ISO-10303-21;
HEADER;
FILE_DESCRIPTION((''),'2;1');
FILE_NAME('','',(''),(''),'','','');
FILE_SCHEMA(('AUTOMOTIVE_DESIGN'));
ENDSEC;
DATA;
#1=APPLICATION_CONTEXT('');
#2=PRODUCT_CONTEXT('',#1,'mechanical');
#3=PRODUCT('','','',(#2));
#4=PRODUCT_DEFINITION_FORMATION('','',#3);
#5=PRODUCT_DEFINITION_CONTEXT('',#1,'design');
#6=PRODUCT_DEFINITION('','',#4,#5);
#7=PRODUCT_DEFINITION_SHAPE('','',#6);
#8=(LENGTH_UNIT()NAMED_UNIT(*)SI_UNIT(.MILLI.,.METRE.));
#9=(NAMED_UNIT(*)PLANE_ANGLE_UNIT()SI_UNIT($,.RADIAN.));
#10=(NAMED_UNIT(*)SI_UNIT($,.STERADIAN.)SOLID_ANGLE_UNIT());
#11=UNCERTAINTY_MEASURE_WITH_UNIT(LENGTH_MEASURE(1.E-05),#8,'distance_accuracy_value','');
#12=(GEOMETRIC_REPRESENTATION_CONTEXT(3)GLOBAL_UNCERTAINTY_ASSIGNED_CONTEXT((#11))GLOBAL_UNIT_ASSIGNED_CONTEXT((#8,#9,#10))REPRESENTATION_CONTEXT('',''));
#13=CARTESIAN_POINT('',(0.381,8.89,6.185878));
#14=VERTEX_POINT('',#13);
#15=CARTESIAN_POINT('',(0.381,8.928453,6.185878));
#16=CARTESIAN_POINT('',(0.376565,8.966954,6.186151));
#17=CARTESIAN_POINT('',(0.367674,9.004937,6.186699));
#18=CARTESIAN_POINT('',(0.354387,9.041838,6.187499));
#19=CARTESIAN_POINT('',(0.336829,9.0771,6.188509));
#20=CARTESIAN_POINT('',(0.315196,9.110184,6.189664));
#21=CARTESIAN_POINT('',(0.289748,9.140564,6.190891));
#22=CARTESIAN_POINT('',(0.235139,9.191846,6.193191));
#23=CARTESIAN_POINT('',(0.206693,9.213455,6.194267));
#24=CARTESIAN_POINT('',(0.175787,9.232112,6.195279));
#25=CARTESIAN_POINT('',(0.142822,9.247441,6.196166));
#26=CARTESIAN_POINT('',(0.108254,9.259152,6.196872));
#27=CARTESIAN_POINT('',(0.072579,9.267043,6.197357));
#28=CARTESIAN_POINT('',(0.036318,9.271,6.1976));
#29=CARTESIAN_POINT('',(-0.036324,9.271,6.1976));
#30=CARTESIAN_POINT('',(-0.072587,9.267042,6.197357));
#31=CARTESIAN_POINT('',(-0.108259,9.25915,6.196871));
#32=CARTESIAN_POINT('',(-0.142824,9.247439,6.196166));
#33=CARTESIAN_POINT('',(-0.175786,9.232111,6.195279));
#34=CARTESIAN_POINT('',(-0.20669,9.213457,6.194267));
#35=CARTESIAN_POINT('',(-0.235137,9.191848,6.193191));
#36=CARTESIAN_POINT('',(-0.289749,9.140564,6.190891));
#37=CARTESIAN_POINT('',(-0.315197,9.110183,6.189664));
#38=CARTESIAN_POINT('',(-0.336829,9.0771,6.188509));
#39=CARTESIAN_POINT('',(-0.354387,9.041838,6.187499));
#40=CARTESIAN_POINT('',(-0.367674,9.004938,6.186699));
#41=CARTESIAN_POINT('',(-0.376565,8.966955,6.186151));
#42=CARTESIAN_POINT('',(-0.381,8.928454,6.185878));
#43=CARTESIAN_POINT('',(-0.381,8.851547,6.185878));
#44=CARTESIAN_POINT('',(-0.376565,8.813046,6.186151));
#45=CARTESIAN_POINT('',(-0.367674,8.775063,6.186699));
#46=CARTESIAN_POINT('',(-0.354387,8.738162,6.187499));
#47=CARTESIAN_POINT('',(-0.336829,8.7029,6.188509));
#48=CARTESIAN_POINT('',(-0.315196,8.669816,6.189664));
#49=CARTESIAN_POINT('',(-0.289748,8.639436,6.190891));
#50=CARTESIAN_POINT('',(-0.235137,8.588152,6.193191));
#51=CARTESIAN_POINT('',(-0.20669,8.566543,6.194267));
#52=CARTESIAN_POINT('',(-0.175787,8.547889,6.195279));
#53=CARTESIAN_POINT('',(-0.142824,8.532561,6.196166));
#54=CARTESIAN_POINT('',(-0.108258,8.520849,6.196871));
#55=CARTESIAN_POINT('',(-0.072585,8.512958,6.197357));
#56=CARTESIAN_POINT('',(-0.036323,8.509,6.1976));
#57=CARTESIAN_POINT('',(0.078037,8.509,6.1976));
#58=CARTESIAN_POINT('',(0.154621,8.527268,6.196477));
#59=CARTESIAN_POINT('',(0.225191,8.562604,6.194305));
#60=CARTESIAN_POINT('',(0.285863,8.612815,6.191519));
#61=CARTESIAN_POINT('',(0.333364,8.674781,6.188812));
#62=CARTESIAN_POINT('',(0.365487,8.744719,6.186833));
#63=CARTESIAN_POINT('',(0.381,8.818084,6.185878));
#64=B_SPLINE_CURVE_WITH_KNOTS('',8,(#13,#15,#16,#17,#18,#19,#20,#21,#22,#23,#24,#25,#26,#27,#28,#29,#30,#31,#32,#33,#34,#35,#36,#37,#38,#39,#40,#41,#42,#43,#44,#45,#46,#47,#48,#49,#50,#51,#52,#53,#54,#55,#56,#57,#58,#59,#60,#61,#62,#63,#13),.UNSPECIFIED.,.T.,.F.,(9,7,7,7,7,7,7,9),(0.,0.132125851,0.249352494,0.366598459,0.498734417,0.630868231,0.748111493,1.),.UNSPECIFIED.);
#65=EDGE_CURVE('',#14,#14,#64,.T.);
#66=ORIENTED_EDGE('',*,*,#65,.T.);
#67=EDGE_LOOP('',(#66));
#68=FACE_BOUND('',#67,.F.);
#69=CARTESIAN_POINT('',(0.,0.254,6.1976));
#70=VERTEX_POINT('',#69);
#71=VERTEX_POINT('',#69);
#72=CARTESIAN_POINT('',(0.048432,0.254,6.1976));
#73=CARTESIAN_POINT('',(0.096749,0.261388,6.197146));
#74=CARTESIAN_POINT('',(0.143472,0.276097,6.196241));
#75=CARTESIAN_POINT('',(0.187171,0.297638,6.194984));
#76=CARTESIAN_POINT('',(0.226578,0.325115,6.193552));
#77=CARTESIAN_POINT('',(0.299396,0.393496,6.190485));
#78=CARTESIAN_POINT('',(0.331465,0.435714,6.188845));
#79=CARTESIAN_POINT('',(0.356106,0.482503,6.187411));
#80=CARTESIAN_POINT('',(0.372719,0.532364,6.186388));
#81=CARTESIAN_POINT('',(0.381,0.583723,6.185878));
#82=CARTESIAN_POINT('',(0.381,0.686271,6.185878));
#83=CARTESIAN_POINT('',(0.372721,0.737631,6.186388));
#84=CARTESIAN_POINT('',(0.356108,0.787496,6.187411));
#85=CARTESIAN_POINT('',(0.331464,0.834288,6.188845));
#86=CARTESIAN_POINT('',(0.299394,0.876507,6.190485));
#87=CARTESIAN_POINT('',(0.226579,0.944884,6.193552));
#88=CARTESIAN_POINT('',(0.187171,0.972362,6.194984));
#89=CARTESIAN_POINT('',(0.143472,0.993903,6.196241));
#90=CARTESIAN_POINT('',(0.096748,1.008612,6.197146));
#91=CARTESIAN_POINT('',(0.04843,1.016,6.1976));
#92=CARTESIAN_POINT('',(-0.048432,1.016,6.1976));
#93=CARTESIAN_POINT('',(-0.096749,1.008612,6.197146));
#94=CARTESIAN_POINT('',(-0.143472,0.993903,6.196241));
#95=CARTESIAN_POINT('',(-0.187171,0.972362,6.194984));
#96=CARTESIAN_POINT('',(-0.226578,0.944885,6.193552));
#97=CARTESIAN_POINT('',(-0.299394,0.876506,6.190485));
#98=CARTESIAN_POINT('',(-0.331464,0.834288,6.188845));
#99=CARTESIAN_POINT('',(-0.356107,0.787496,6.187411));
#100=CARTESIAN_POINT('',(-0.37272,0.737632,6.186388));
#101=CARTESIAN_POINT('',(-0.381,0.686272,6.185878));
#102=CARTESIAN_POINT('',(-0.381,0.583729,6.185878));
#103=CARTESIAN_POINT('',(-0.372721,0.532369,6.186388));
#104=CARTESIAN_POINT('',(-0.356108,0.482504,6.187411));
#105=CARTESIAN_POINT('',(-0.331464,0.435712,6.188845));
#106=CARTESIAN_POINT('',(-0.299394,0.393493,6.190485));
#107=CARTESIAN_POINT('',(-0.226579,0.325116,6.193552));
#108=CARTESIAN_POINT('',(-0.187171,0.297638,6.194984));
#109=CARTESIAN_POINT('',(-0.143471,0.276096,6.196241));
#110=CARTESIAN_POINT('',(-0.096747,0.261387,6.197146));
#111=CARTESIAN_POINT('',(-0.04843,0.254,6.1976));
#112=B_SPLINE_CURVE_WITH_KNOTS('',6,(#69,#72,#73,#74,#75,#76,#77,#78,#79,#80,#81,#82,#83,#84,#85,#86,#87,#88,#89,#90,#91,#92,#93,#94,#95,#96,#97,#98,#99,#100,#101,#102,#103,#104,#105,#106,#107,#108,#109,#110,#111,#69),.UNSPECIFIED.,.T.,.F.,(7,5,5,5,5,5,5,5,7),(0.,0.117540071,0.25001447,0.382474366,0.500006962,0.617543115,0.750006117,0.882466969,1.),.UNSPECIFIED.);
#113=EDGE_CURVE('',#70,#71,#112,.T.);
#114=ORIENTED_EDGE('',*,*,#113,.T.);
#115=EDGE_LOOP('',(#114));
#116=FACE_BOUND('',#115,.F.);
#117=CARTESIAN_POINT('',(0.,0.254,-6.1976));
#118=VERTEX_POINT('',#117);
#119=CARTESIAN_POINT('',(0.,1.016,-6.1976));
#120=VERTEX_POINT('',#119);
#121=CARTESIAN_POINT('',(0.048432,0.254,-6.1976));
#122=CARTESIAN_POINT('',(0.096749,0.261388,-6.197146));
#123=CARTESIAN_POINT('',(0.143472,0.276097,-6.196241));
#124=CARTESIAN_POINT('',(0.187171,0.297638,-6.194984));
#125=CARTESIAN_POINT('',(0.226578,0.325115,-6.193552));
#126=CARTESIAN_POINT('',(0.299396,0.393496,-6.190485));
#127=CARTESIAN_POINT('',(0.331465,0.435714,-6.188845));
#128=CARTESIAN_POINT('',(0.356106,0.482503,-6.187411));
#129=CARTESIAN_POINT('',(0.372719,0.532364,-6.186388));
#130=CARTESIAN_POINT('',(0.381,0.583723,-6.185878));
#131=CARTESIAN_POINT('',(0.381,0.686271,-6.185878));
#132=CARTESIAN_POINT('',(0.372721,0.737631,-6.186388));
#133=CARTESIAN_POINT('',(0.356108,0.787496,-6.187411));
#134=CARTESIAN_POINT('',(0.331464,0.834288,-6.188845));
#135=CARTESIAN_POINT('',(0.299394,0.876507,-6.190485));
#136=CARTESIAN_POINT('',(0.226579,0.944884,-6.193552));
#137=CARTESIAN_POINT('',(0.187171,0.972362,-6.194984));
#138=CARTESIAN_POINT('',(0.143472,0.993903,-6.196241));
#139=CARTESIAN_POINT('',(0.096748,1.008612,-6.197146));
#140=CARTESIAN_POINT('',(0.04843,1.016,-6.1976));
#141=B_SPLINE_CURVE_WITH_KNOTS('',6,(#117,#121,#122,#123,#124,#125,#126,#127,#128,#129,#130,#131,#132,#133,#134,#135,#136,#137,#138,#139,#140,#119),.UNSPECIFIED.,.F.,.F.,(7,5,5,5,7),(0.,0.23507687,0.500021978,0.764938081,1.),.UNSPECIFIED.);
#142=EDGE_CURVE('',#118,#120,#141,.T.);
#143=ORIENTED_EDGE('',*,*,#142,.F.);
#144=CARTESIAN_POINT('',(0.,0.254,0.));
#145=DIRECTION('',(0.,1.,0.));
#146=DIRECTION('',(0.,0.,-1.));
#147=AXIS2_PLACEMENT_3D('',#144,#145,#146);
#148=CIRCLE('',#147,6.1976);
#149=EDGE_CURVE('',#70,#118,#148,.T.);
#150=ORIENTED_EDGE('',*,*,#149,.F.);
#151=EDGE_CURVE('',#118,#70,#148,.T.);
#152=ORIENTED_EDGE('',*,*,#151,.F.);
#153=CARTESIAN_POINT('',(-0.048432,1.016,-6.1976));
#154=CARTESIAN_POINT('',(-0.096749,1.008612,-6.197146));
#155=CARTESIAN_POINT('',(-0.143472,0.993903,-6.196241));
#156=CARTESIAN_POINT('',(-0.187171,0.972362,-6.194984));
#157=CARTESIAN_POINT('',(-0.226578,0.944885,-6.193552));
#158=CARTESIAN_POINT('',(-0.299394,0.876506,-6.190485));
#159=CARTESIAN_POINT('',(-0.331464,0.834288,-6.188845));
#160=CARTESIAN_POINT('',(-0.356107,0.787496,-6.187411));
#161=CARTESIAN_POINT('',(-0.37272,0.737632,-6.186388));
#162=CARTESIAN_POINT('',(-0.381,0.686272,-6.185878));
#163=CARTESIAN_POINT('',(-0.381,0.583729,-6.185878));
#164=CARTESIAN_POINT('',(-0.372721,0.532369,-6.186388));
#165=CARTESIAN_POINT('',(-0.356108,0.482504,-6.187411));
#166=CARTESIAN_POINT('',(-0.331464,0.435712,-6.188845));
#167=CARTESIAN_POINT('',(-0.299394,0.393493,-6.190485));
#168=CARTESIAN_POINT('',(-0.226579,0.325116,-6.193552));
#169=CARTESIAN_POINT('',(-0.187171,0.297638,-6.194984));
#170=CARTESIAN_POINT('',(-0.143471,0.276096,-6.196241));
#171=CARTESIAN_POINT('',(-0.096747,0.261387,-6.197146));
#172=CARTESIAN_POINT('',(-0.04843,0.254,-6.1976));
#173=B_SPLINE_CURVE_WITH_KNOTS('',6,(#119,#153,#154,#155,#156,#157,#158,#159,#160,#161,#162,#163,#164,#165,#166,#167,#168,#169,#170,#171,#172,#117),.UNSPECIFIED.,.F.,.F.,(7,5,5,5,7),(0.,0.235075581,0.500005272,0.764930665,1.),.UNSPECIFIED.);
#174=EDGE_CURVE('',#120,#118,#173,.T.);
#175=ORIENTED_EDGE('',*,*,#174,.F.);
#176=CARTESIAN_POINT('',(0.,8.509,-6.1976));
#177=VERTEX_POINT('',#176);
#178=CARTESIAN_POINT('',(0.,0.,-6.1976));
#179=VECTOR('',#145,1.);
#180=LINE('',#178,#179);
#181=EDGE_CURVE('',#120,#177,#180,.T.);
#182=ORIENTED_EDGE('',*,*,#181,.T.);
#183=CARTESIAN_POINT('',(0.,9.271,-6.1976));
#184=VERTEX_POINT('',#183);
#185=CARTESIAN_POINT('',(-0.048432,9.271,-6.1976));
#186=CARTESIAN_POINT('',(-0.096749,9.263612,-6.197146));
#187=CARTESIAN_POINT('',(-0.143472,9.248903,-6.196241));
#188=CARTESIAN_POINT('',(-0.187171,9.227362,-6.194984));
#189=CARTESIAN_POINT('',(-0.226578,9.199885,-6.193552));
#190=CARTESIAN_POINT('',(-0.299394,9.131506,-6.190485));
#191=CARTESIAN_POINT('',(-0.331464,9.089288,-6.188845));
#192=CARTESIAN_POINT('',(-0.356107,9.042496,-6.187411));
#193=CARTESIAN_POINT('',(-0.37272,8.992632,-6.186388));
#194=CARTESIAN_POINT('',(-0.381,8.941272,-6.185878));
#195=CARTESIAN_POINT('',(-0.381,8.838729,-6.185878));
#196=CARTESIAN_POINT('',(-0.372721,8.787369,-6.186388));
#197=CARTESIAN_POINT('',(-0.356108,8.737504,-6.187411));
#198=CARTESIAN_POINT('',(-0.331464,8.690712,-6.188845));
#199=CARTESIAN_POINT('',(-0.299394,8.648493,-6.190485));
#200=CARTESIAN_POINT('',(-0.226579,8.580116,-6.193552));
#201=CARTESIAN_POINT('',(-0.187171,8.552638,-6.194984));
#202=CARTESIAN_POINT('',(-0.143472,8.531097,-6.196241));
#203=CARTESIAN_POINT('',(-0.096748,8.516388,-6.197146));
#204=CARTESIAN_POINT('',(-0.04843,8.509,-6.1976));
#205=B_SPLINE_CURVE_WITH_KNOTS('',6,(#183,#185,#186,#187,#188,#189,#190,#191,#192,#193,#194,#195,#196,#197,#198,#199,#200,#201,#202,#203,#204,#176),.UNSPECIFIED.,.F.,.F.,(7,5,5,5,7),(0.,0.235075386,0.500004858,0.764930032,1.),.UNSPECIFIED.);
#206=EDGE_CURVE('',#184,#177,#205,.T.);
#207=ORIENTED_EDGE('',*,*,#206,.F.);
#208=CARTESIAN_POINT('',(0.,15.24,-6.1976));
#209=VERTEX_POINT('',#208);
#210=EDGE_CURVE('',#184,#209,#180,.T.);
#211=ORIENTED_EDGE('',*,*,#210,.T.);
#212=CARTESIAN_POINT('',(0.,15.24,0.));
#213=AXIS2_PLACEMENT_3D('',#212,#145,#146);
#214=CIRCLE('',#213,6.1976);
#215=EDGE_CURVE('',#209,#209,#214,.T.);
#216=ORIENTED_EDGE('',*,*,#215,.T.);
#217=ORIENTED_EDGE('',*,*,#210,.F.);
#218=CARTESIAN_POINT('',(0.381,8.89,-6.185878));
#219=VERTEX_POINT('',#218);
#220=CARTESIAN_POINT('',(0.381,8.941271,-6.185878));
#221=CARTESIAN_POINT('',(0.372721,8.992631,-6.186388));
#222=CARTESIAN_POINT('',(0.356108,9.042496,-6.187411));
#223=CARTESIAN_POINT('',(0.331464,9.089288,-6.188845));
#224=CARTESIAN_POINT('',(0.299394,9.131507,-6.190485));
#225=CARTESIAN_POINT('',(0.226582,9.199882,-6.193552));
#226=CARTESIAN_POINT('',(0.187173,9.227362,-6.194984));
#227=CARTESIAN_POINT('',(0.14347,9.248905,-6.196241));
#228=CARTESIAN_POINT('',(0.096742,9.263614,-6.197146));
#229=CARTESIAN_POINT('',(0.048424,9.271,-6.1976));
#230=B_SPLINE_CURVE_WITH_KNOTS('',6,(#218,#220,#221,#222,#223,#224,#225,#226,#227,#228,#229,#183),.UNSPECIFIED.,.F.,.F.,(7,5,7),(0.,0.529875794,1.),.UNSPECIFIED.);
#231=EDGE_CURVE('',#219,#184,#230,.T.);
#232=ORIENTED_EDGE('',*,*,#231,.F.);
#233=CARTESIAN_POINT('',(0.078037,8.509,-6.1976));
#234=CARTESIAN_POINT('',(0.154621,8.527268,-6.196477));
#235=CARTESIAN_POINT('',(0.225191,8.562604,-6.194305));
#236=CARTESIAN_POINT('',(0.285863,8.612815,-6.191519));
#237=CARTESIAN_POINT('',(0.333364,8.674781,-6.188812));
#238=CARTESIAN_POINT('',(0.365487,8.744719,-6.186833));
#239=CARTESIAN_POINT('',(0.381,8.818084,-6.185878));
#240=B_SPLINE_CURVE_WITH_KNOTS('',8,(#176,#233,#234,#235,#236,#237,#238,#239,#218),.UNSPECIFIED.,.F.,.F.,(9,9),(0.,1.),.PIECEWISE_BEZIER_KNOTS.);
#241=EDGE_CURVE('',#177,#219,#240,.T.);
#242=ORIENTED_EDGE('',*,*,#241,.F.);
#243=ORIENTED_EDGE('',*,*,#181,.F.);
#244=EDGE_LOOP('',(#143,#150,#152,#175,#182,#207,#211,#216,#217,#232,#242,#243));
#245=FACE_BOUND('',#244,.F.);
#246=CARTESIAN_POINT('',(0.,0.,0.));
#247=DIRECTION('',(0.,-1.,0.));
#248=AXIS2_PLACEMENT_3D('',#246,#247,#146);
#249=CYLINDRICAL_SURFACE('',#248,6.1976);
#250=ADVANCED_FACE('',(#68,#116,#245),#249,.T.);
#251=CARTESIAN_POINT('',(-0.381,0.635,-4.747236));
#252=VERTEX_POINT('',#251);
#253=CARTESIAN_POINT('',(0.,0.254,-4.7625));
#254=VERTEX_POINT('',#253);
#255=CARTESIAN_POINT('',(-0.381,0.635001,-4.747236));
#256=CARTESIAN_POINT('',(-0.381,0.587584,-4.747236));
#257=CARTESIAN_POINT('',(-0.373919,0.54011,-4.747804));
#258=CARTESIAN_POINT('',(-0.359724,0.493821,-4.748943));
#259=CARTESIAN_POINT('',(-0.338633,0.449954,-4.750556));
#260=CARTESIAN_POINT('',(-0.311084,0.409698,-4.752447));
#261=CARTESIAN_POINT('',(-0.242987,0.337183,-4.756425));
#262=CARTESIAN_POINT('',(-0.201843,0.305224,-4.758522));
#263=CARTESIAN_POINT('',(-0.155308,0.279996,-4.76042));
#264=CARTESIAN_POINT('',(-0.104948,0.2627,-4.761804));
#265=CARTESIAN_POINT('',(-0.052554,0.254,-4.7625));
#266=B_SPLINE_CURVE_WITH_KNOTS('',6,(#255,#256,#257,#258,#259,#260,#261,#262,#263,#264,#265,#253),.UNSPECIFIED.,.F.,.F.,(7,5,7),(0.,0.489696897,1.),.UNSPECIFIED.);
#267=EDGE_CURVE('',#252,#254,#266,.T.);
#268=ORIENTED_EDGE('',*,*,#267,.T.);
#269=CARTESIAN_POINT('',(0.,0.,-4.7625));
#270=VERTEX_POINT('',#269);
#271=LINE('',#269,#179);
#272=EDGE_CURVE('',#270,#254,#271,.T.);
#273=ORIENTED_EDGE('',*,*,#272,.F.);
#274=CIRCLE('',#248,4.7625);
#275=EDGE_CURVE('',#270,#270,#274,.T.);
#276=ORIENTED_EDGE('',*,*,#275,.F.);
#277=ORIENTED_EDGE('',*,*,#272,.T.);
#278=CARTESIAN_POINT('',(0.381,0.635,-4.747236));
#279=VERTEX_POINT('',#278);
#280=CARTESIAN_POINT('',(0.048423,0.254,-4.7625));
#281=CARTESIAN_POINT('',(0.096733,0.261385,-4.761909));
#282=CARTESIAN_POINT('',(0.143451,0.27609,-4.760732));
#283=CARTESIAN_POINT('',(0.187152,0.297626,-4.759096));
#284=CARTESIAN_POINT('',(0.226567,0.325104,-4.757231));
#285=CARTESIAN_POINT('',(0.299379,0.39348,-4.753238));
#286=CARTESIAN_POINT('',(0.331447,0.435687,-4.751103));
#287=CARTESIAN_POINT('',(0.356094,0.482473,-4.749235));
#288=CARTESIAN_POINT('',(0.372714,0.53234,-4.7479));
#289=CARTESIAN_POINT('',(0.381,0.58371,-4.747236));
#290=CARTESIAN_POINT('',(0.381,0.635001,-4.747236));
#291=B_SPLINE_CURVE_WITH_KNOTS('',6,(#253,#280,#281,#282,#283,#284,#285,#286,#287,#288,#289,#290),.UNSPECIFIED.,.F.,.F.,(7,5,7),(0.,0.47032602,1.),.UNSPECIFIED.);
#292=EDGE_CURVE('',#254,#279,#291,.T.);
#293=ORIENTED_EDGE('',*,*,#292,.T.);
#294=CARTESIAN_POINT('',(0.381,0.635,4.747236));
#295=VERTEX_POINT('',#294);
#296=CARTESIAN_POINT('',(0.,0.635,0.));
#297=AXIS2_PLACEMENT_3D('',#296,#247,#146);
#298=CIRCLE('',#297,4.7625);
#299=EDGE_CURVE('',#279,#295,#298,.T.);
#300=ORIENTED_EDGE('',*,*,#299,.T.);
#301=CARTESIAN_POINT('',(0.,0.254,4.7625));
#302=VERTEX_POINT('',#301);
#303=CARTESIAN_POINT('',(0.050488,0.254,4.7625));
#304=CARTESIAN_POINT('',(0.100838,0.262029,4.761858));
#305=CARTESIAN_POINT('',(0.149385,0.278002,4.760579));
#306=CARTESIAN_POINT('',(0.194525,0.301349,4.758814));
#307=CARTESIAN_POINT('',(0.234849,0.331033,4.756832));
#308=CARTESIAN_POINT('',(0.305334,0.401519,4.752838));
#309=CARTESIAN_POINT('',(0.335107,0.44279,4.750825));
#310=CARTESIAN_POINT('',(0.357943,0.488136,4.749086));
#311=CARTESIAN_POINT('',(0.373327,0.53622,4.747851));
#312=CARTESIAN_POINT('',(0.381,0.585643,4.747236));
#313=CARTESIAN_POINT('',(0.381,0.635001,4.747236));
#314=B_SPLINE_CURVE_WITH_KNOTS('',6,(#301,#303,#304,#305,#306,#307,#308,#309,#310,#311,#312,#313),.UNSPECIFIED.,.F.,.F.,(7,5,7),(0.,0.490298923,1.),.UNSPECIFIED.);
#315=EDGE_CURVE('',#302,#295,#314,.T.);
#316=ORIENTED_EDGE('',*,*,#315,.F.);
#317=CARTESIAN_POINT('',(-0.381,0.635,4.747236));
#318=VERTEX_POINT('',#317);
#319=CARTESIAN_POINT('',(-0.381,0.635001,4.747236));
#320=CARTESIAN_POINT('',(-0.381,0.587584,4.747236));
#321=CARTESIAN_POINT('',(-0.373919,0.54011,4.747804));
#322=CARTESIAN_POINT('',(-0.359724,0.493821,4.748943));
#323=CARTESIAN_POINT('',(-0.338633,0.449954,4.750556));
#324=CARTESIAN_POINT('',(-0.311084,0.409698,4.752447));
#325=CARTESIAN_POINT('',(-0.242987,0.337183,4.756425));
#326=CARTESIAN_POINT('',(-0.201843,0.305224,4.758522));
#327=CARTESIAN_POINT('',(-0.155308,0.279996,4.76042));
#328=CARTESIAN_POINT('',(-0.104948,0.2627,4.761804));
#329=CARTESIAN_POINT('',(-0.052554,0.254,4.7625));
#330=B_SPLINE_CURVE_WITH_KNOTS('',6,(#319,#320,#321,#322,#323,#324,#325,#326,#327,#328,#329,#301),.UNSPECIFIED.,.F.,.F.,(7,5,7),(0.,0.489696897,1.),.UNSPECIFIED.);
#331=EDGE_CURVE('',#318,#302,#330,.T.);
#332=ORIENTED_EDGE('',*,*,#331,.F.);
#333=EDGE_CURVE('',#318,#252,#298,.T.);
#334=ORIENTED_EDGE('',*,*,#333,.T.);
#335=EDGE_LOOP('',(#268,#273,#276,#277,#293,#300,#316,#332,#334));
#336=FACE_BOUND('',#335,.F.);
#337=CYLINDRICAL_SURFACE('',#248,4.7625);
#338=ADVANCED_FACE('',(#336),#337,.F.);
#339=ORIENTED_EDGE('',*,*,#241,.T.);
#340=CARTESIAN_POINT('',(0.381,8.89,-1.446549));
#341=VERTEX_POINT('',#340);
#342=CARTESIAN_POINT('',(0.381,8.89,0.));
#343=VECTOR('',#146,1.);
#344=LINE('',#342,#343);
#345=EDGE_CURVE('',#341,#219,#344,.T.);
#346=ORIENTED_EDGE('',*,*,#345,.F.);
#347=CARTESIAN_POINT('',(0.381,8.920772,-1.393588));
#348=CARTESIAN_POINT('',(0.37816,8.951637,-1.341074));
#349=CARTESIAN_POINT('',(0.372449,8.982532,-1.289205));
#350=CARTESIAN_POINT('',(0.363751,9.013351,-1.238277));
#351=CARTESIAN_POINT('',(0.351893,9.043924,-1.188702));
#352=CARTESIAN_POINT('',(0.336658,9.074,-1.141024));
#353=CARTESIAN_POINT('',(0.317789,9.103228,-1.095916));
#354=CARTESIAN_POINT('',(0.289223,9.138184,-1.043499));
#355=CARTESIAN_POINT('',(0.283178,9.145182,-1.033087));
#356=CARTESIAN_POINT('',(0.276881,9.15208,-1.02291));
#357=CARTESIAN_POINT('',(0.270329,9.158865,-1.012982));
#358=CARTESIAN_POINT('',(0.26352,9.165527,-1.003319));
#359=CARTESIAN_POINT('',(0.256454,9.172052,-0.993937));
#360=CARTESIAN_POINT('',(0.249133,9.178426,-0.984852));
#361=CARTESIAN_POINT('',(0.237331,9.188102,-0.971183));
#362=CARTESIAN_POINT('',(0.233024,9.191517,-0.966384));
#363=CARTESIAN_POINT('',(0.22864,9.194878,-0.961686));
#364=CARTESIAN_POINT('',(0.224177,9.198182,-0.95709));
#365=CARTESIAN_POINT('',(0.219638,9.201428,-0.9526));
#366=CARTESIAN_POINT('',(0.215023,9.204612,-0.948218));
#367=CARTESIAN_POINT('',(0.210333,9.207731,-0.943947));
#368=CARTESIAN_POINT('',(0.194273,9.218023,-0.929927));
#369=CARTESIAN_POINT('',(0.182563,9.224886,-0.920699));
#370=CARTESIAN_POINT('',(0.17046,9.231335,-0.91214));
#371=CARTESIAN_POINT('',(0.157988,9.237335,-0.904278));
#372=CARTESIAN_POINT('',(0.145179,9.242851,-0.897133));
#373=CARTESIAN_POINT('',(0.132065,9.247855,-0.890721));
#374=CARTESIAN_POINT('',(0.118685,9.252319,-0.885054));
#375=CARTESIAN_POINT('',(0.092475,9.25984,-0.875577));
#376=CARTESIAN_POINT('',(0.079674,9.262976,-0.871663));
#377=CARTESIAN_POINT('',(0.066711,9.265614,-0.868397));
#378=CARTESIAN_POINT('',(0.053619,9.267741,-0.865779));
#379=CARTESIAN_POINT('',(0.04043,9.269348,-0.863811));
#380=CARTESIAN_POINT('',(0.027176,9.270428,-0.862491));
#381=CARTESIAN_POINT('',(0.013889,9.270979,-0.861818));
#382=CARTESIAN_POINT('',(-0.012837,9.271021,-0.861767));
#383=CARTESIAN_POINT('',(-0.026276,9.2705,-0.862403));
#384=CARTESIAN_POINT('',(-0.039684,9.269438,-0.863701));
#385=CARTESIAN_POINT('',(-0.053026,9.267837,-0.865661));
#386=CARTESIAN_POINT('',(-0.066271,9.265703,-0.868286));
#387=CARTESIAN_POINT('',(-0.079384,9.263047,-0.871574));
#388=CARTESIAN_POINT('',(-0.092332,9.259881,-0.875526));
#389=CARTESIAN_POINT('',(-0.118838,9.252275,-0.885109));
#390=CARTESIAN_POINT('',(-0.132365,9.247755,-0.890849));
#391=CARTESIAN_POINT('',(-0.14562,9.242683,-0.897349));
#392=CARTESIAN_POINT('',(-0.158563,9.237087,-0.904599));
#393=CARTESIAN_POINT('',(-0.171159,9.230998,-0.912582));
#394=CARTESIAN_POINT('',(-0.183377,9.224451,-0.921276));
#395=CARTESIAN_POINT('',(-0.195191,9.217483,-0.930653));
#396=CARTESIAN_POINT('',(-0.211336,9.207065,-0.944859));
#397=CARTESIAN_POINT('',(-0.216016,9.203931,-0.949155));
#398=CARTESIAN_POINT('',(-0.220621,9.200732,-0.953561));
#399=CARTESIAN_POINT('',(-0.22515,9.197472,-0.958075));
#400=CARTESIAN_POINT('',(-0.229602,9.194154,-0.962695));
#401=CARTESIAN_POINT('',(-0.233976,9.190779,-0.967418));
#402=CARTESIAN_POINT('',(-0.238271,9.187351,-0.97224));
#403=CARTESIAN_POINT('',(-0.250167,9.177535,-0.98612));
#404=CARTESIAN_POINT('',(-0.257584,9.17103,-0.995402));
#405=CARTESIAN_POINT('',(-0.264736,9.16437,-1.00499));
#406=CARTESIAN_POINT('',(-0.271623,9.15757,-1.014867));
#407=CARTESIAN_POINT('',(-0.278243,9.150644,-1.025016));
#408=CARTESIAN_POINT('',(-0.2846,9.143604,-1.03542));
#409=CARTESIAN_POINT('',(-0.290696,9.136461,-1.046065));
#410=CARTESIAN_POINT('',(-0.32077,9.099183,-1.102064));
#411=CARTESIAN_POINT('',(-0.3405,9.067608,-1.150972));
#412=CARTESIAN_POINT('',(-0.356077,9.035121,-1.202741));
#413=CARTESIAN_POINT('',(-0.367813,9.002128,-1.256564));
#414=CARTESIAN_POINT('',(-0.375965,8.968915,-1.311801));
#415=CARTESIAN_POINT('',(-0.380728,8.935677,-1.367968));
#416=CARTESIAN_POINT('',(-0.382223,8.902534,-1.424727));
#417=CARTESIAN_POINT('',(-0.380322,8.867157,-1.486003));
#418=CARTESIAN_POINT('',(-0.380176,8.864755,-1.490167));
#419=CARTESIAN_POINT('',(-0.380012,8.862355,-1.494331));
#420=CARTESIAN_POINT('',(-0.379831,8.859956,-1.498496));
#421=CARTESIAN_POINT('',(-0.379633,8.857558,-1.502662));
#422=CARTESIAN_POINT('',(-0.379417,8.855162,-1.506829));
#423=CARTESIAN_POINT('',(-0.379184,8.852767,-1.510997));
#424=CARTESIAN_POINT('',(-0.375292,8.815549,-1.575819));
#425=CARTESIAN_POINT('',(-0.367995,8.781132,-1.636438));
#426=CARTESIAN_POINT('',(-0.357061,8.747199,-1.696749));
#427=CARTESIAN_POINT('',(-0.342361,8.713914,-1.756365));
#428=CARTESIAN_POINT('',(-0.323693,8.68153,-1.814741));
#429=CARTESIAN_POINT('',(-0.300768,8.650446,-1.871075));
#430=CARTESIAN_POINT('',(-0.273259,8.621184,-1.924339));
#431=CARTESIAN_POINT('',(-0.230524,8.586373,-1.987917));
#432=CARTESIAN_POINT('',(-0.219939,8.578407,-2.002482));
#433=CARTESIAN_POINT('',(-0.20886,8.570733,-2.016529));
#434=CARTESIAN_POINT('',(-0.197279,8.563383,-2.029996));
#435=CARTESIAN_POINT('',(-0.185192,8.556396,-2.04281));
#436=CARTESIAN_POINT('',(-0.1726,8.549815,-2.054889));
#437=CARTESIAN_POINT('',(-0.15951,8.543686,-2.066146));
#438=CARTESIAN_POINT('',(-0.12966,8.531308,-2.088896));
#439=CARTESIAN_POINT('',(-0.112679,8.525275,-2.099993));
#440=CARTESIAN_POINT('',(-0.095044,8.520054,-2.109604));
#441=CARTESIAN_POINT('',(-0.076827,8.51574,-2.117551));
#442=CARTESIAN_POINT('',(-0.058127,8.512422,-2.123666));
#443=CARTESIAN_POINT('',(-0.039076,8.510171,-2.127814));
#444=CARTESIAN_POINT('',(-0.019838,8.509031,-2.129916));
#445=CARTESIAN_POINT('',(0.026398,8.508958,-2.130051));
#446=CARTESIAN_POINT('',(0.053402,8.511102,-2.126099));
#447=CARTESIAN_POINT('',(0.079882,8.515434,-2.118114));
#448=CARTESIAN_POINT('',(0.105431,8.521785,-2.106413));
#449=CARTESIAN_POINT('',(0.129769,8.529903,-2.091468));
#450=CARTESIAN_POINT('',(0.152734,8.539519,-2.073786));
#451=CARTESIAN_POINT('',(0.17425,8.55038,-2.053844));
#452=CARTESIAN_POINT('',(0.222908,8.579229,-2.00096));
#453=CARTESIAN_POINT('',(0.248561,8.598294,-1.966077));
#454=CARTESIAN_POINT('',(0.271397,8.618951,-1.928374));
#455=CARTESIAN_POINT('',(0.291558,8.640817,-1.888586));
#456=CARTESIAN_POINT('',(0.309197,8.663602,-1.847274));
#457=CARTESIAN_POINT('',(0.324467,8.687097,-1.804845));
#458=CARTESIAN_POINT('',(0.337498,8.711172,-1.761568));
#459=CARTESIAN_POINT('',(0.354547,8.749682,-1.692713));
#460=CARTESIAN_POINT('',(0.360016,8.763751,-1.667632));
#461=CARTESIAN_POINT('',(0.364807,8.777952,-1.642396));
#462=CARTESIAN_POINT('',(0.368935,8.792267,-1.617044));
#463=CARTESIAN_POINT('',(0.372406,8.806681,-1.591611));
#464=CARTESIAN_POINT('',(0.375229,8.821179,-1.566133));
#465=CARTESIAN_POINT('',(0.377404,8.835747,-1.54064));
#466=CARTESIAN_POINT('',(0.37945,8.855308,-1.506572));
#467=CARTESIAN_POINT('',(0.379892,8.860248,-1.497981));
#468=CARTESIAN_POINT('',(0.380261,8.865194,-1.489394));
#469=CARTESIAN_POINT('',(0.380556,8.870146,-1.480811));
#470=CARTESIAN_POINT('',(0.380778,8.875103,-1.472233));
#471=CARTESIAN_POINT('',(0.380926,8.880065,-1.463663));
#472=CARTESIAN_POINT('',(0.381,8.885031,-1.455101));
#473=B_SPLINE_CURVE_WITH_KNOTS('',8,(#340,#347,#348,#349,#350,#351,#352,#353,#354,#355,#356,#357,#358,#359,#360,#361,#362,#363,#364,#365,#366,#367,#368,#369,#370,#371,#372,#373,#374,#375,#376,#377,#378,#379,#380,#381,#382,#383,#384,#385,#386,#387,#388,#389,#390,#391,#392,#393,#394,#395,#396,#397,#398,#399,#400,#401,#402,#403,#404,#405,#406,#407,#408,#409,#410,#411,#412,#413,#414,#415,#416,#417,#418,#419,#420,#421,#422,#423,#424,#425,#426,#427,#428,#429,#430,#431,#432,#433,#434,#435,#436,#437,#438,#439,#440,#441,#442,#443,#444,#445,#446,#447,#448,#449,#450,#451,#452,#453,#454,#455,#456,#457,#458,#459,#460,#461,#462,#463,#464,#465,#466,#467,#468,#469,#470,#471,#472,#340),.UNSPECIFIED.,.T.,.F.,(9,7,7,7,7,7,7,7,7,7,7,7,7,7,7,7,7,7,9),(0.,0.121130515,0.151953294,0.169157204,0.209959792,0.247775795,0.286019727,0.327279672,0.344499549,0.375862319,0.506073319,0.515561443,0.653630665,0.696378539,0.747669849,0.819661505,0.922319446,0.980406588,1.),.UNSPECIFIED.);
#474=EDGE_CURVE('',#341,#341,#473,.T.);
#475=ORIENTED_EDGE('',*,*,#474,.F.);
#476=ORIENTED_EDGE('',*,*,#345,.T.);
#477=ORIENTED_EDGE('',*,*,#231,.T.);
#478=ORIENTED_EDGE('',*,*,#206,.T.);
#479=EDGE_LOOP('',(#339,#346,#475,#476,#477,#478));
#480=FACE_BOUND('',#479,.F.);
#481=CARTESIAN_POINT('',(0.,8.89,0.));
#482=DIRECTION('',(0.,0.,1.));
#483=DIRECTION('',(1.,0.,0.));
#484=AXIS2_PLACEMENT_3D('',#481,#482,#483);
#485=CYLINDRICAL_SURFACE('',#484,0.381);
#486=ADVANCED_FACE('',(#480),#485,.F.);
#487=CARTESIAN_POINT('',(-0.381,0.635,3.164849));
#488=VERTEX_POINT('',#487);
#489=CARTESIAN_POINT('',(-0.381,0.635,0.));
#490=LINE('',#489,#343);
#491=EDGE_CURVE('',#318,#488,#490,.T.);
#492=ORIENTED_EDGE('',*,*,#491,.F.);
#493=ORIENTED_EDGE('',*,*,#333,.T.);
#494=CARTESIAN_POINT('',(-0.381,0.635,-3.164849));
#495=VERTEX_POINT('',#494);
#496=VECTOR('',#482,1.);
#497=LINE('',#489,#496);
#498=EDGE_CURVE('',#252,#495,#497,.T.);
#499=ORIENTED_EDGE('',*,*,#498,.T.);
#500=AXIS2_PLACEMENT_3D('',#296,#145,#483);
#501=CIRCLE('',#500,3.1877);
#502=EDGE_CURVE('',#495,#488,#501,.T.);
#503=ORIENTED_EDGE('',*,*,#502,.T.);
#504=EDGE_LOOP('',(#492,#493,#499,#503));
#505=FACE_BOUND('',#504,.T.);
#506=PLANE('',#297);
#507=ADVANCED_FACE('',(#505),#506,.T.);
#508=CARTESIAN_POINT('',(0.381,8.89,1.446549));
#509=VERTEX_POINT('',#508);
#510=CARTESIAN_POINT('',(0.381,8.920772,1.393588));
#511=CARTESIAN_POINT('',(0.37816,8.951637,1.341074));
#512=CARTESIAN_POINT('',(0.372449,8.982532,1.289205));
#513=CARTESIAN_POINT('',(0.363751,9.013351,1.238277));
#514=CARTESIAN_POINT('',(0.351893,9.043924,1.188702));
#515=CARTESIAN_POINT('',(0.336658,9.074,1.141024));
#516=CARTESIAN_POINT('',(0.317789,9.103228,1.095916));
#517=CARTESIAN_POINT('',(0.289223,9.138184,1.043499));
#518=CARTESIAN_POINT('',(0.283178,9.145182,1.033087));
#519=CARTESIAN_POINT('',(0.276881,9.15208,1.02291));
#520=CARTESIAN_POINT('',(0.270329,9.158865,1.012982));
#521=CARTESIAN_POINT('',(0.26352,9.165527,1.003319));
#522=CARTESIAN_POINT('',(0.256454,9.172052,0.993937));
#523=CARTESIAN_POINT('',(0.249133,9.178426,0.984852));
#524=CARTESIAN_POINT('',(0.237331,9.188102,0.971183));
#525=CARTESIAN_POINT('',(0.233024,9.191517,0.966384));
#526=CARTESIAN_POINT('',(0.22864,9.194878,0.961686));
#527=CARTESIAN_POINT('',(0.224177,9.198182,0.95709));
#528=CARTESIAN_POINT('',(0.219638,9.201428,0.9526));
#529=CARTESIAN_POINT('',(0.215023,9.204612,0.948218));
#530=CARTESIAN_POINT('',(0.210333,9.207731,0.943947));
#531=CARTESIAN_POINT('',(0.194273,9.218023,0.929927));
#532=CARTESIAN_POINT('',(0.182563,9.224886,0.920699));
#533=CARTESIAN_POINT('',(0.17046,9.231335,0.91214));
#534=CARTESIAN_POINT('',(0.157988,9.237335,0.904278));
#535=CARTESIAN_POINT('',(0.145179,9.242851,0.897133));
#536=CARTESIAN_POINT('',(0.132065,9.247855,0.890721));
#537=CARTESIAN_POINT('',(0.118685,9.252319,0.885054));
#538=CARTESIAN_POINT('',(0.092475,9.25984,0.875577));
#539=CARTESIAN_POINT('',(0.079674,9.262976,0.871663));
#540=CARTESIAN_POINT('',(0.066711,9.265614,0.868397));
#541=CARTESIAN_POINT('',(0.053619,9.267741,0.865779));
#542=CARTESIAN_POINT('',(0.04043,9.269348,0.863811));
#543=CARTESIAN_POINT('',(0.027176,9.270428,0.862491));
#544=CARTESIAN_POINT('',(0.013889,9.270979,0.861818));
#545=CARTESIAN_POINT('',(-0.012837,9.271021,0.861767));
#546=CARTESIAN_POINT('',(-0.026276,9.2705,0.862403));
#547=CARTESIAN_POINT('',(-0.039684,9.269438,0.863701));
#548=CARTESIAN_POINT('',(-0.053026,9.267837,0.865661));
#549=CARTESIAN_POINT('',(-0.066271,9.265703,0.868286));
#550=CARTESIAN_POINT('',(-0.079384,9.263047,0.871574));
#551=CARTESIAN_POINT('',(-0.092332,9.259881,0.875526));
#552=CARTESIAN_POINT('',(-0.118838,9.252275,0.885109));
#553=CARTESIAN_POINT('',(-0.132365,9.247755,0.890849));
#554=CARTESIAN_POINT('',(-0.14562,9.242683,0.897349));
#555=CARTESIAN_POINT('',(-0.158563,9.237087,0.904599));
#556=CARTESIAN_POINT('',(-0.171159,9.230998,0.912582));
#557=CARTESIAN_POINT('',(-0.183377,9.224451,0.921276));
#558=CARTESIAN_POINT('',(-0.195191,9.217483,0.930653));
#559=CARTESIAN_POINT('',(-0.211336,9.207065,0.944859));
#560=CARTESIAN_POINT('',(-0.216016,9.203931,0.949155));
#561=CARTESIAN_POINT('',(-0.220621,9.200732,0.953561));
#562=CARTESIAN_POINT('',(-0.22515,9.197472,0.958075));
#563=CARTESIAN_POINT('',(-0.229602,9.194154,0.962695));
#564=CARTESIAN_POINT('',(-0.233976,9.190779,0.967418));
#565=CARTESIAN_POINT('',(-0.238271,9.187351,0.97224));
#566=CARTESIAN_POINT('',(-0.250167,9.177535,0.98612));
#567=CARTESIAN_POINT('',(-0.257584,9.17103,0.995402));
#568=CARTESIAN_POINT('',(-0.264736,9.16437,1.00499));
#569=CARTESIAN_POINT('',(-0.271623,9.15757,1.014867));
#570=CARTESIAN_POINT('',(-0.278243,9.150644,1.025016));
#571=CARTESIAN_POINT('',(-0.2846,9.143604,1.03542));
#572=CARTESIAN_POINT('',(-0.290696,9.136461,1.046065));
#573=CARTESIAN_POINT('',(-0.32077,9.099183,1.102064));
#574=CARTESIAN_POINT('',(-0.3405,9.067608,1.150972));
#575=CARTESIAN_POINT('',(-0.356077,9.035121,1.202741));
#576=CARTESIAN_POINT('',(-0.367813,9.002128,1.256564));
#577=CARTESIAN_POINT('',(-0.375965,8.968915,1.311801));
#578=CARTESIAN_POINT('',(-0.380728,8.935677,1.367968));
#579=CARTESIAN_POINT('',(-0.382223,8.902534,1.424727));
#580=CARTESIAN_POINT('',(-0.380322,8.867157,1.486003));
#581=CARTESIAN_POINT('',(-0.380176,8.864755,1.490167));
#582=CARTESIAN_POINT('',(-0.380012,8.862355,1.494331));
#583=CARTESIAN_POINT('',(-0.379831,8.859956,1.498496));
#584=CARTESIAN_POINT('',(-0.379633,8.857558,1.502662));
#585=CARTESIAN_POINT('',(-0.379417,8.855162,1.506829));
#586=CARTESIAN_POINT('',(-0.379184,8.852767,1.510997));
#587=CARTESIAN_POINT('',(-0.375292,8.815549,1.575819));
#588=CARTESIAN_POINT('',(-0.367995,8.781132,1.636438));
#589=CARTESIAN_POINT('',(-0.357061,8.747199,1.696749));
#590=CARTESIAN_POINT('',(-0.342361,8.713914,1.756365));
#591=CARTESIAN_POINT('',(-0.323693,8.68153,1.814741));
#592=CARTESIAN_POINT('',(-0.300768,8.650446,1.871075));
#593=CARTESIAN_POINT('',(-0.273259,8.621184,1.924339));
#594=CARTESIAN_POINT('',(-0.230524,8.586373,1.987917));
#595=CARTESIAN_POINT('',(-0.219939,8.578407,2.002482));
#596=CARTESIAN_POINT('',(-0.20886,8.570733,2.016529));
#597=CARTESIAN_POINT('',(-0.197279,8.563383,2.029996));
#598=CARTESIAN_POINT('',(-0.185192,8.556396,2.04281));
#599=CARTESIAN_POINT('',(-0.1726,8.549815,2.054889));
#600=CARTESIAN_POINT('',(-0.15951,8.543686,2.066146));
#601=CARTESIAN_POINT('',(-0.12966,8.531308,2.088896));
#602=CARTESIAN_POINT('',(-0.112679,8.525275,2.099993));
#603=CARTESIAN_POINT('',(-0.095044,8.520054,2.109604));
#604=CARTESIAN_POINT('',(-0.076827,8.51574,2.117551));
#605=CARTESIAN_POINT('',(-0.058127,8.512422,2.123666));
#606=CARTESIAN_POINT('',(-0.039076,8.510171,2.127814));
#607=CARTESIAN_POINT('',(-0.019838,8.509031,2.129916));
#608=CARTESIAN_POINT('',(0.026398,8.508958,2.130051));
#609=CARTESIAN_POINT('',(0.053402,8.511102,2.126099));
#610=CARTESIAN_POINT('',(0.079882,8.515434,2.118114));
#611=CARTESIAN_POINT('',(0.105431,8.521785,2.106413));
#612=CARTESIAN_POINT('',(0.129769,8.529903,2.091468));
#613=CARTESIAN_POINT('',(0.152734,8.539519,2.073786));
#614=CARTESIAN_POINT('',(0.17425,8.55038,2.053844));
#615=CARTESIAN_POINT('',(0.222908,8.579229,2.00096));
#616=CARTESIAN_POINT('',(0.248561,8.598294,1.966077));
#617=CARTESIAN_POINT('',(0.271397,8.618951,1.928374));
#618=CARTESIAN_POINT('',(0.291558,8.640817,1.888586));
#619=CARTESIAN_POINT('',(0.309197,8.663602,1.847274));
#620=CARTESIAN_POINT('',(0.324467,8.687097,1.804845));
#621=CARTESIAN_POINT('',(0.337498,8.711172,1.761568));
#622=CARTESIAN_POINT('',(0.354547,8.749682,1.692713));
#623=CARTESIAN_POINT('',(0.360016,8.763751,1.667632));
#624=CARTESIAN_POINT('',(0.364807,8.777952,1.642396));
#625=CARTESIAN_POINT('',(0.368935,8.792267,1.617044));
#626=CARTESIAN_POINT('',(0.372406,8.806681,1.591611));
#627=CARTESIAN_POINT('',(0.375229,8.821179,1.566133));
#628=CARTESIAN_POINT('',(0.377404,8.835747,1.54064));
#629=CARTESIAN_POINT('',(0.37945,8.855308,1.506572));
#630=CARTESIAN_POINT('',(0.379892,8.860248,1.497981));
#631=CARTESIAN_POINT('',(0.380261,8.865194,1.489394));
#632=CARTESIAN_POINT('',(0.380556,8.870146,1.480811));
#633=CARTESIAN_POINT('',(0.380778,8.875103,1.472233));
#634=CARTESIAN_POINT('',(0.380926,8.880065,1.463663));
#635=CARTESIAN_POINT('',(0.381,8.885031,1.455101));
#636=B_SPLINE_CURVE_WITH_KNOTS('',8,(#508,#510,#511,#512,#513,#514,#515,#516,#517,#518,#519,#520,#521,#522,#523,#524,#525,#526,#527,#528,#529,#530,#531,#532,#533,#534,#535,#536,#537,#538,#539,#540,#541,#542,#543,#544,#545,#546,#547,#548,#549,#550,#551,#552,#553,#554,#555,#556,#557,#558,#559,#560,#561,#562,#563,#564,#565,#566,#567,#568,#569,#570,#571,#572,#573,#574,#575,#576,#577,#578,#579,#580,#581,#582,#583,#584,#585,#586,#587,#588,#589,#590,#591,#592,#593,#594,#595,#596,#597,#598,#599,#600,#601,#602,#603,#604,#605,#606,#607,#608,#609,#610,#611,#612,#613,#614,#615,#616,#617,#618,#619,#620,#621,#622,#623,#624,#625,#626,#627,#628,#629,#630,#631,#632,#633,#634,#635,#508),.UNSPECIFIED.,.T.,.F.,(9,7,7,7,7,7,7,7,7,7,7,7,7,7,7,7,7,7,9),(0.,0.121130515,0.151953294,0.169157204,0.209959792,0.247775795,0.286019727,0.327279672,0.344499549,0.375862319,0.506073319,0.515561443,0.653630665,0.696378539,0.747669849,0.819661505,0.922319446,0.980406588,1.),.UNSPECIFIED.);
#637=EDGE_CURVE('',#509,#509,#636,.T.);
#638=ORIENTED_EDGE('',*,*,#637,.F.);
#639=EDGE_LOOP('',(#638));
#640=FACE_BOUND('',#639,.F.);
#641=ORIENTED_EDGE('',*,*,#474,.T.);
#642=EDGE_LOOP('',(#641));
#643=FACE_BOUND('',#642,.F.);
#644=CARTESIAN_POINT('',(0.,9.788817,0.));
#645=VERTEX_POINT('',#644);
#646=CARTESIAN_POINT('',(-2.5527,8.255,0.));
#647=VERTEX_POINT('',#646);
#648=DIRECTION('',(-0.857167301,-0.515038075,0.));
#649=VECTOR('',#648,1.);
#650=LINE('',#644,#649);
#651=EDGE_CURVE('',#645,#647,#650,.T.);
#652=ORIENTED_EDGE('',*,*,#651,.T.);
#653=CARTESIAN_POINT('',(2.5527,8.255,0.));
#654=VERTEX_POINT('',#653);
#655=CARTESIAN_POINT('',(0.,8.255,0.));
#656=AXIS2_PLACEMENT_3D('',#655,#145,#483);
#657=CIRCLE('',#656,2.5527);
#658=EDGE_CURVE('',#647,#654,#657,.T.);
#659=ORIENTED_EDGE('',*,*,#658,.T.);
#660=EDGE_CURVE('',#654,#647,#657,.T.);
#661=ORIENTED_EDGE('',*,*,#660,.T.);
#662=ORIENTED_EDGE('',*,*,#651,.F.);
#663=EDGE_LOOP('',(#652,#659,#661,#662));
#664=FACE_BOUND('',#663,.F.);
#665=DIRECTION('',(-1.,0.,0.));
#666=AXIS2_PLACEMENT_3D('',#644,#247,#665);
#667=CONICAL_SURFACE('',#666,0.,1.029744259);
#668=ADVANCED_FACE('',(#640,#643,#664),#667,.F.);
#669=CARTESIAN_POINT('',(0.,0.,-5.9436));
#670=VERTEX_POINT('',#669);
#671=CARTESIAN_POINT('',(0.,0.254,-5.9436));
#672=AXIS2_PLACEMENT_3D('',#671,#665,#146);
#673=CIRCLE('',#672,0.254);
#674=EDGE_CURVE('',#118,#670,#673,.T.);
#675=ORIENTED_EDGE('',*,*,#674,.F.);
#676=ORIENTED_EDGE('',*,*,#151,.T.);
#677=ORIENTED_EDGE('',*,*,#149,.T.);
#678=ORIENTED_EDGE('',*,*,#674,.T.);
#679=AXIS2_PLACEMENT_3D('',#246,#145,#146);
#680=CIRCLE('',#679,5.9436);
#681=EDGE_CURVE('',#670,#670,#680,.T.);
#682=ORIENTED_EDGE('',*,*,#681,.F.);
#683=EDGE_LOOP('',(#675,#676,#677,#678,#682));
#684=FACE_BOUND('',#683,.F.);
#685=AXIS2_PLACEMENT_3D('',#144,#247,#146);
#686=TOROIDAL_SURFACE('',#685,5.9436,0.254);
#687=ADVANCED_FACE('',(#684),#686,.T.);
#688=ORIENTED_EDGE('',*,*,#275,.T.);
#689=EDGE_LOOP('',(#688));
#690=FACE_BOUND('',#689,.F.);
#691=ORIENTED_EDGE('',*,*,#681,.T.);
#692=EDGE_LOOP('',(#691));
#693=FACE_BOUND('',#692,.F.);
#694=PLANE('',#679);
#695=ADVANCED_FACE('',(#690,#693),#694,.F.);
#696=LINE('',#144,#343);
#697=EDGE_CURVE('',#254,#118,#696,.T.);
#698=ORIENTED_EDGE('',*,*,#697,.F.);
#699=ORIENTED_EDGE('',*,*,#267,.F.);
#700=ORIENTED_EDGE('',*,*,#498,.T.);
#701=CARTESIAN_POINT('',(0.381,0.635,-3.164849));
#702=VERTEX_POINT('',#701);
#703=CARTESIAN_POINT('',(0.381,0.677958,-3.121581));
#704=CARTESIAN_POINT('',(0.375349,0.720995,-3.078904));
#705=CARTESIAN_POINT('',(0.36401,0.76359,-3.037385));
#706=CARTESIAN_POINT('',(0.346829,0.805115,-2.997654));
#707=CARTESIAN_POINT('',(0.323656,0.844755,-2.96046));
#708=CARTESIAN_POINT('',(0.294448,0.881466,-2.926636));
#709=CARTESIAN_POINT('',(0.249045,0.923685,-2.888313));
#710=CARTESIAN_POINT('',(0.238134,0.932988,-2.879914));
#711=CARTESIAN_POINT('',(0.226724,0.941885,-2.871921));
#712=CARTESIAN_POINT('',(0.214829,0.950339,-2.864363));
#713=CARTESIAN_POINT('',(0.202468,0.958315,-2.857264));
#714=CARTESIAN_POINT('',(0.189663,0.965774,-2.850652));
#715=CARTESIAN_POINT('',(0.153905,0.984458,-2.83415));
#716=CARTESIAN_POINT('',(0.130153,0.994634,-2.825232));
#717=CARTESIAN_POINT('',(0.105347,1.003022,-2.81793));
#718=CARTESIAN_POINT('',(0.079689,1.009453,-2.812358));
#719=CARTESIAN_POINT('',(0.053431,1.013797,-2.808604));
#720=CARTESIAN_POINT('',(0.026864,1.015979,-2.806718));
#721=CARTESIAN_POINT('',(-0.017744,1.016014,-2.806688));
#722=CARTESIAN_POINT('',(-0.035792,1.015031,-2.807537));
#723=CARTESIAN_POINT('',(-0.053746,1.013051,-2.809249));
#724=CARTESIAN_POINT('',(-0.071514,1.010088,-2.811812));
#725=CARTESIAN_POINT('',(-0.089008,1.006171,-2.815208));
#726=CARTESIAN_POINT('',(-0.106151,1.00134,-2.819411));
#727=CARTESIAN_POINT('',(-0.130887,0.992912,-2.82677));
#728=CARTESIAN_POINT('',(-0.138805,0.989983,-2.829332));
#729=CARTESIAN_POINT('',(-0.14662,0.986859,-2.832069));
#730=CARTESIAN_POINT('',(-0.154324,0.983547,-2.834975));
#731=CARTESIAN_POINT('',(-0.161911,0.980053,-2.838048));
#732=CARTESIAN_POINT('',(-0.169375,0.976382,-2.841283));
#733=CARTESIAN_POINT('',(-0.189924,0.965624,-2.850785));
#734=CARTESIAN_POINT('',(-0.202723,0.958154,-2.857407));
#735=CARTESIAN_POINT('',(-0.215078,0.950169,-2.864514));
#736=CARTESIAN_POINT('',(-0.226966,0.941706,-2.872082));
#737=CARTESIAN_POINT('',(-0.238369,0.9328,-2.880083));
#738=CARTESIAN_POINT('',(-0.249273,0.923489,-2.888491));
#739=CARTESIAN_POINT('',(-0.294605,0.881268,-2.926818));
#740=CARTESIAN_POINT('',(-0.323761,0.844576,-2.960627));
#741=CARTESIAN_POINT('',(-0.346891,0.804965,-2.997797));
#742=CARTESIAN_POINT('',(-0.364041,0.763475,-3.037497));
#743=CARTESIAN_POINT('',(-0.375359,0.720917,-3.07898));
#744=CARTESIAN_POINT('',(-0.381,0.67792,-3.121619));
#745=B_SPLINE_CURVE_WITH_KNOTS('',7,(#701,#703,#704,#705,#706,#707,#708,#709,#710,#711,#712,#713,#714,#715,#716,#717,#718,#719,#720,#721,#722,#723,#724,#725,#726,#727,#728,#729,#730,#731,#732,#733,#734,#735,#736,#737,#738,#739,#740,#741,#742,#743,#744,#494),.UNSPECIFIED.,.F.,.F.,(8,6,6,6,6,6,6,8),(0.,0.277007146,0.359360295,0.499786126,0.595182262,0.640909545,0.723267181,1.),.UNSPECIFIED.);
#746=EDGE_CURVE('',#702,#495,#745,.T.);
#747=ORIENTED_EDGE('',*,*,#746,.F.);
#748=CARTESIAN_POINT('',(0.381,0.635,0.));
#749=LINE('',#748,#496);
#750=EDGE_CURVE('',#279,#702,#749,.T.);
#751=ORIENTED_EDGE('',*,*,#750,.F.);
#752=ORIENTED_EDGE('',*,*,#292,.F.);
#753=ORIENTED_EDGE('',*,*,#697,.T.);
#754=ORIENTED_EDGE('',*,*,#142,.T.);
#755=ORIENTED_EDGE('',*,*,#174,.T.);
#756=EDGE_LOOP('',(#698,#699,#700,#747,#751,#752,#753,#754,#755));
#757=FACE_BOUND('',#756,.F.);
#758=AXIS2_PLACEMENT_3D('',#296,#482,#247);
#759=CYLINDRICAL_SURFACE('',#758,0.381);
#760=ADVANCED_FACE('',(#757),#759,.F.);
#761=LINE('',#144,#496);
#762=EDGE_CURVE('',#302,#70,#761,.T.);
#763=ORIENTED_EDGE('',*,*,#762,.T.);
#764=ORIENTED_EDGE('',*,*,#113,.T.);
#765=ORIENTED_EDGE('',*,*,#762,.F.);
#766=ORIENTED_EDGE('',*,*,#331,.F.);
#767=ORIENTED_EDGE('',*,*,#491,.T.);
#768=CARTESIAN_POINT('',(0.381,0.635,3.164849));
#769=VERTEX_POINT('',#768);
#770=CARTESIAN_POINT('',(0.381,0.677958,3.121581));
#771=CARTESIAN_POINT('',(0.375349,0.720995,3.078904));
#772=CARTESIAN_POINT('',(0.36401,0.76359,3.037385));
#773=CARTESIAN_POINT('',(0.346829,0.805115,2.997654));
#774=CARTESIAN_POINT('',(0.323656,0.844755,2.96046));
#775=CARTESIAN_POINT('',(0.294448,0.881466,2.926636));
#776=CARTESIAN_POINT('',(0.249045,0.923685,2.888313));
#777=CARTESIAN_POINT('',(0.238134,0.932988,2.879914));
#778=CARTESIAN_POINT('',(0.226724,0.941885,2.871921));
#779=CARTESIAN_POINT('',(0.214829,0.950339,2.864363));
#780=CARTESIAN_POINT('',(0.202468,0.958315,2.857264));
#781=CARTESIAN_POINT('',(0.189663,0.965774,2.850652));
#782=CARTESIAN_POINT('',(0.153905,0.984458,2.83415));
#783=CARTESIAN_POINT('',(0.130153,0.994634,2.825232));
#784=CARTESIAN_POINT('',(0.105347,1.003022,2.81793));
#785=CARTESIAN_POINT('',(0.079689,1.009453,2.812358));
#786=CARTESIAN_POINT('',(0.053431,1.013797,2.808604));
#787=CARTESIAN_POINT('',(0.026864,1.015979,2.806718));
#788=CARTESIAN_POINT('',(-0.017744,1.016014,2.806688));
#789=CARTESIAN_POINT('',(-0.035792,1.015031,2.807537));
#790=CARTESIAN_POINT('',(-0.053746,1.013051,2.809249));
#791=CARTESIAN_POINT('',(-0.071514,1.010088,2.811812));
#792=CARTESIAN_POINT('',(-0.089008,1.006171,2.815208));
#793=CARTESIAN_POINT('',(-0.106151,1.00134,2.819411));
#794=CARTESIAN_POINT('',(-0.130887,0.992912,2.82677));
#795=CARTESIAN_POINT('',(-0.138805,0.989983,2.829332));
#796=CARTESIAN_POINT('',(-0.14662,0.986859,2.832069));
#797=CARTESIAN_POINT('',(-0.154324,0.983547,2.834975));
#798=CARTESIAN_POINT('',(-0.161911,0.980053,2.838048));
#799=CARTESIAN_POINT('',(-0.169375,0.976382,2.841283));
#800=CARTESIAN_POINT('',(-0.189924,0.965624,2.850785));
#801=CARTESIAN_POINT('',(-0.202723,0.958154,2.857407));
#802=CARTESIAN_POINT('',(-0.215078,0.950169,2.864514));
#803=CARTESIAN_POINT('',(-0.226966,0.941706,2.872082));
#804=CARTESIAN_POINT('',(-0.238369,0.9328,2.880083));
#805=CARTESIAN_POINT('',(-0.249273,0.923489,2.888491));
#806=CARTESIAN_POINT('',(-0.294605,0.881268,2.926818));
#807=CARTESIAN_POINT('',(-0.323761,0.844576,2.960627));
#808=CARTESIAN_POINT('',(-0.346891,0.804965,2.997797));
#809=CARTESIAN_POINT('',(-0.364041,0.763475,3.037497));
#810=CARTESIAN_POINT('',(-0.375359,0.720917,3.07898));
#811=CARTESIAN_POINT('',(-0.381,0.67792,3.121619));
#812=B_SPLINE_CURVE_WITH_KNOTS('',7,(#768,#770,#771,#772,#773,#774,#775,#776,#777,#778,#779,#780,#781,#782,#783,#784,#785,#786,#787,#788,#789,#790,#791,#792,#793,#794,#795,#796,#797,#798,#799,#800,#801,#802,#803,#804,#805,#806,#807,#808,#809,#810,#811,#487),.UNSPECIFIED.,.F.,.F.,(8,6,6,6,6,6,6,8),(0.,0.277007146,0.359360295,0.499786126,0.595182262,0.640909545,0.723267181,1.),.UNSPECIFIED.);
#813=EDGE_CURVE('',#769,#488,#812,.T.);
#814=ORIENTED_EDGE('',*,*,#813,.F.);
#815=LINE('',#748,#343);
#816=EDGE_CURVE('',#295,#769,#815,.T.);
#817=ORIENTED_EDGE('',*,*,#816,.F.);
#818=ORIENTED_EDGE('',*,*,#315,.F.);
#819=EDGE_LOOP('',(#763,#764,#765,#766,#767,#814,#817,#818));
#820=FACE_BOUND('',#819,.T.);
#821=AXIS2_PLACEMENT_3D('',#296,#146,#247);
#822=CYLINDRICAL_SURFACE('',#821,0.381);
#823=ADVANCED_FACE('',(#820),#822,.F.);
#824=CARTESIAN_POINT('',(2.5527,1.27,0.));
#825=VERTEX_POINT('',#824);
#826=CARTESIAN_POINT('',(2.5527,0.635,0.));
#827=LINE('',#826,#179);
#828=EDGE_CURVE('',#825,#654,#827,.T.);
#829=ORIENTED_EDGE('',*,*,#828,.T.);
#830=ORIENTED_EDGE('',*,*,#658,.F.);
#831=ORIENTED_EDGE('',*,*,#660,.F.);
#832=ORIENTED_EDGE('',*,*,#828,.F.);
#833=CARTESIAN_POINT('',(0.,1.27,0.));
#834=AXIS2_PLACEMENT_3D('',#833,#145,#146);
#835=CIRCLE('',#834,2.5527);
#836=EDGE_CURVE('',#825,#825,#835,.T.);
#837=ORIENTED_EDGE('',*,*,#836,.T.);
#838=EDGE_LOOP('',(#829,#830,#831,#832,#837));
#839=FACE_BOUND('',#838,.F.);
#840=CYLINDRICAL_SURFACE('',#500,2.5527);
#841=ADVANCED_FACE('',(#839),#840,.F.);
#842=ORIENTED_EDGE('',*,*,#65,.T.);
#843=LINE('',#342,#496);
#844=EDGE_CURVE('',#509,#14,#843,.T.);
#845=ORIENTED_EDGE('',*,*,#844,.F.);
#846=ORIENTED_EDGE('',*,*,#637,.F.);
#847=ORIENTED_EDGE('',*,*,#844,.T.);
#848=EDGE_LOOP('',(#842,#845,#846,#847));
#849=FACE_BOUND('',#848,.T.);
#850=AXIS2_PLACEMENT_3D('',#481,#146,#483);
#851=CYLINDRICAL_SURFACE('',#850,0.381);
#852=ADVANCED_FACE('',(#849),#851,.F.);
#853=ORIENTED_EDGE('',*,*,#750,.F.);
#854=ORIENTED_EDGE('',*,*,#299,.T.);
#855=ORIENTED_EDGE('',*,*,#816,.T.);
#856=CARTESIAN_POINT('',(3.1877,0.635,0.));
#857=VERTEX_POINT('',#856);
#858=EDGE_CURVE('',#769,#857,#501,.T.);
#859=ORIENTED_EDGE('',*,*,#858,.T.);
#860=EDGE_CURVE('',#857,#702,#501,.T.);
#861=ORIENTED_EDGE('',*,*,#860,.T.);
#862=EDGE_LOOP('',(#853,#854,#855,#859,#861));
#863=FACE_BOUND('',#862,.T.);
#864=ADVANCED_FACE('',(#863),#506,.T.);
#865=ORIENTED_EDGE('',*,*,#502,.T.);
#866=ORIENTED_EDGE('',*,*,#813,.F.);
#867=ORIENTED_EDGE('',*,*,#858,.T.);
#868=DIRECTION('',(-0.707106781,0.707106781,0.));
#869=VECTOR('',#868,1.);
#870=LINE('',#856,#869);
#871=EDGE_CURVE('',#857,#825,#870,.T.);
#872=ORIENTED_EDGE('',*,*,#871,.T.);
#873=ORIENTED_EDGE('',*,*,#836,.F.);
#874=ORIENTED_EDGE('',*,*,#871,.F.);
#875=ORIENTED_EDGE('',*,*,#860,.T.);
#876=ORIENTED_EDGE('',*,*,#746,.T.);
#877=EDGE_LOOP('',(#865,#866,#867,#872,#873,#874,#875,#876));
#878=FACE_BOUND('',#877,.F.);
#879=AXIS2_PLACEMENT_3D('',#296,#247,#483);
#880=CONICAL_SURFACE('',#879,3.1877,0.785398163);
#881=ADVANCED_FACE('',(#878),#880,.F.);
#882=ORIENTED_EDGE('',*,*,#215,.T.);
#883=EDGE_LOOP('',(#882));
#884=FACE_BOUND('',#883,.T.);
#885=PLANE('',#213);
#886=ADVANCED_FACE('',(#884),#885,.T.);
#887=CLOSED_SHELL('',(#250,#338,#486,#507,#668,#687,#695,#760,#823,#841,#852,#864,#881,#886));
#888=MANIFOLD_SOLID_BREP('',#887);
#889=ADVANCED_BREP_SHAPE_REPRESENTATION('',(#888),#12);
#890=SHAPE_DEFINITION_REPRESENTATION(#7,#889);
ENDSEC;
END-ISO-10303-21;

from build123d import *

# Parameters (mm, degrees)
SKETCH1_R                         = 6.1976
BOSS_EXTRUDE1_DEPTH               = 15.24
SKETCH2_R                         = 4.7625
CUT_EXTRUDE1_DEPTH                = 0.635
F_1_4_20_TAPPED_HOLE1_D           = 5.1054
F_1_4_20_TAPPED_HOLE1_DEPTH       = 7.62
F_1_4_20_TAPPED_HOLE1_CSINK_D     = 6.3754
F_1_4_20_TAPPED_HOLE1_CSINK_ANGLE = 90
F_1_4_20_TAPPED_HOLE1_TIP         = 1.533816902
FILLET4_R                         = 0.254
SKETCH7_R                         = 0.381
CUT_EXTRUDE2_DEPTH                = 18.580616962
CUT_EXTRUDE2_DEPTH_BACK           = 18.580616962


with BuildPart() as part:
    # Sketch1 → Boss-Extrude1 (new body)
    with BuildSketch(Plane(origin=(0, 0, 0), x_dir=(1, 0, 0), z_dir=(0, 1, 0))):
        with Locations(Location((0, 0, 0), (0, 0, 90))):
            Circle(SKETCH1_R)
    extrude(amount=BOSS_EXTRUDE1_DEPTH)

    # Sketch2 → Cut-Extrude1 (cut)
    with BuildSketch(Plane.XZ):
        with Locations(Location((0, 0, 0), (0, 0, 270))):
            Circle(SKETCH2_R)
    extrude(amount=-CUT_EXTRUDE1_DEPTH, mode=Mode.SUBTRACT)

    # 1/4-20 Tapped Hole1
    with Locations(Plane(origin=(0, 0.635, 0), x_dir=(-1, 0, 0), z_dir=(0, -1, 0))):
        with Locations((0, 0)):
            CounterSinkHole(F_1_4_20_TAPPED_HOLE1_D / 2, F_1_4_20_TAPPED_HOLE1_CSINK_D / 2, depth=F_1_4_20_TAPPED_HOLE1_DEPTH, counter_sink_angle=F_1_4_20_TAPPED_HOLE1_CSINK_ANGLE)
            with Locations((0, 0, -(F_1_4_20_TAPPED_HOLE1_DEPTH + F_1_4_20_TAPPED_HOLE1_TIP / 2))):  # 118° drill point
                Cone(0, F_1_4_20_TAPPED_HOLE1_D / 2, F_1_4_20_TAPPED_HOLE1_TIP, mode=Mode.SUBTRACT)

    # Fillet4
    fillet4_edges = [part.edges().sort_by_distance(p)[0] for p in [
        (0, 0, 6.1976),
    ]]
    fillet(fillet4_edges, radius=FILLET4_R)

    # Sketch7 → Cut-Extrude2 (cut, two sides)
    with BuildSketch(Plane.XY) as cut_extrude2_sk:
        with Locations(Location((0, 0.635, 0), (0, 0, 270))):
            Circle(SKETCH7_R)
        with Locations((0, 8.89)):
            Circle(SKETCH7_R)
    extrude(amount=CUT_EXTRUDE2_DEPTH, mode=Mode.SUBTRACT)
    extrude(cut_extrude2_sk.sketch, amount=-CUT_EXTRUDE2_DEPTH_BACK, mode=Mode.SUBTRACT)


solid = part.part
